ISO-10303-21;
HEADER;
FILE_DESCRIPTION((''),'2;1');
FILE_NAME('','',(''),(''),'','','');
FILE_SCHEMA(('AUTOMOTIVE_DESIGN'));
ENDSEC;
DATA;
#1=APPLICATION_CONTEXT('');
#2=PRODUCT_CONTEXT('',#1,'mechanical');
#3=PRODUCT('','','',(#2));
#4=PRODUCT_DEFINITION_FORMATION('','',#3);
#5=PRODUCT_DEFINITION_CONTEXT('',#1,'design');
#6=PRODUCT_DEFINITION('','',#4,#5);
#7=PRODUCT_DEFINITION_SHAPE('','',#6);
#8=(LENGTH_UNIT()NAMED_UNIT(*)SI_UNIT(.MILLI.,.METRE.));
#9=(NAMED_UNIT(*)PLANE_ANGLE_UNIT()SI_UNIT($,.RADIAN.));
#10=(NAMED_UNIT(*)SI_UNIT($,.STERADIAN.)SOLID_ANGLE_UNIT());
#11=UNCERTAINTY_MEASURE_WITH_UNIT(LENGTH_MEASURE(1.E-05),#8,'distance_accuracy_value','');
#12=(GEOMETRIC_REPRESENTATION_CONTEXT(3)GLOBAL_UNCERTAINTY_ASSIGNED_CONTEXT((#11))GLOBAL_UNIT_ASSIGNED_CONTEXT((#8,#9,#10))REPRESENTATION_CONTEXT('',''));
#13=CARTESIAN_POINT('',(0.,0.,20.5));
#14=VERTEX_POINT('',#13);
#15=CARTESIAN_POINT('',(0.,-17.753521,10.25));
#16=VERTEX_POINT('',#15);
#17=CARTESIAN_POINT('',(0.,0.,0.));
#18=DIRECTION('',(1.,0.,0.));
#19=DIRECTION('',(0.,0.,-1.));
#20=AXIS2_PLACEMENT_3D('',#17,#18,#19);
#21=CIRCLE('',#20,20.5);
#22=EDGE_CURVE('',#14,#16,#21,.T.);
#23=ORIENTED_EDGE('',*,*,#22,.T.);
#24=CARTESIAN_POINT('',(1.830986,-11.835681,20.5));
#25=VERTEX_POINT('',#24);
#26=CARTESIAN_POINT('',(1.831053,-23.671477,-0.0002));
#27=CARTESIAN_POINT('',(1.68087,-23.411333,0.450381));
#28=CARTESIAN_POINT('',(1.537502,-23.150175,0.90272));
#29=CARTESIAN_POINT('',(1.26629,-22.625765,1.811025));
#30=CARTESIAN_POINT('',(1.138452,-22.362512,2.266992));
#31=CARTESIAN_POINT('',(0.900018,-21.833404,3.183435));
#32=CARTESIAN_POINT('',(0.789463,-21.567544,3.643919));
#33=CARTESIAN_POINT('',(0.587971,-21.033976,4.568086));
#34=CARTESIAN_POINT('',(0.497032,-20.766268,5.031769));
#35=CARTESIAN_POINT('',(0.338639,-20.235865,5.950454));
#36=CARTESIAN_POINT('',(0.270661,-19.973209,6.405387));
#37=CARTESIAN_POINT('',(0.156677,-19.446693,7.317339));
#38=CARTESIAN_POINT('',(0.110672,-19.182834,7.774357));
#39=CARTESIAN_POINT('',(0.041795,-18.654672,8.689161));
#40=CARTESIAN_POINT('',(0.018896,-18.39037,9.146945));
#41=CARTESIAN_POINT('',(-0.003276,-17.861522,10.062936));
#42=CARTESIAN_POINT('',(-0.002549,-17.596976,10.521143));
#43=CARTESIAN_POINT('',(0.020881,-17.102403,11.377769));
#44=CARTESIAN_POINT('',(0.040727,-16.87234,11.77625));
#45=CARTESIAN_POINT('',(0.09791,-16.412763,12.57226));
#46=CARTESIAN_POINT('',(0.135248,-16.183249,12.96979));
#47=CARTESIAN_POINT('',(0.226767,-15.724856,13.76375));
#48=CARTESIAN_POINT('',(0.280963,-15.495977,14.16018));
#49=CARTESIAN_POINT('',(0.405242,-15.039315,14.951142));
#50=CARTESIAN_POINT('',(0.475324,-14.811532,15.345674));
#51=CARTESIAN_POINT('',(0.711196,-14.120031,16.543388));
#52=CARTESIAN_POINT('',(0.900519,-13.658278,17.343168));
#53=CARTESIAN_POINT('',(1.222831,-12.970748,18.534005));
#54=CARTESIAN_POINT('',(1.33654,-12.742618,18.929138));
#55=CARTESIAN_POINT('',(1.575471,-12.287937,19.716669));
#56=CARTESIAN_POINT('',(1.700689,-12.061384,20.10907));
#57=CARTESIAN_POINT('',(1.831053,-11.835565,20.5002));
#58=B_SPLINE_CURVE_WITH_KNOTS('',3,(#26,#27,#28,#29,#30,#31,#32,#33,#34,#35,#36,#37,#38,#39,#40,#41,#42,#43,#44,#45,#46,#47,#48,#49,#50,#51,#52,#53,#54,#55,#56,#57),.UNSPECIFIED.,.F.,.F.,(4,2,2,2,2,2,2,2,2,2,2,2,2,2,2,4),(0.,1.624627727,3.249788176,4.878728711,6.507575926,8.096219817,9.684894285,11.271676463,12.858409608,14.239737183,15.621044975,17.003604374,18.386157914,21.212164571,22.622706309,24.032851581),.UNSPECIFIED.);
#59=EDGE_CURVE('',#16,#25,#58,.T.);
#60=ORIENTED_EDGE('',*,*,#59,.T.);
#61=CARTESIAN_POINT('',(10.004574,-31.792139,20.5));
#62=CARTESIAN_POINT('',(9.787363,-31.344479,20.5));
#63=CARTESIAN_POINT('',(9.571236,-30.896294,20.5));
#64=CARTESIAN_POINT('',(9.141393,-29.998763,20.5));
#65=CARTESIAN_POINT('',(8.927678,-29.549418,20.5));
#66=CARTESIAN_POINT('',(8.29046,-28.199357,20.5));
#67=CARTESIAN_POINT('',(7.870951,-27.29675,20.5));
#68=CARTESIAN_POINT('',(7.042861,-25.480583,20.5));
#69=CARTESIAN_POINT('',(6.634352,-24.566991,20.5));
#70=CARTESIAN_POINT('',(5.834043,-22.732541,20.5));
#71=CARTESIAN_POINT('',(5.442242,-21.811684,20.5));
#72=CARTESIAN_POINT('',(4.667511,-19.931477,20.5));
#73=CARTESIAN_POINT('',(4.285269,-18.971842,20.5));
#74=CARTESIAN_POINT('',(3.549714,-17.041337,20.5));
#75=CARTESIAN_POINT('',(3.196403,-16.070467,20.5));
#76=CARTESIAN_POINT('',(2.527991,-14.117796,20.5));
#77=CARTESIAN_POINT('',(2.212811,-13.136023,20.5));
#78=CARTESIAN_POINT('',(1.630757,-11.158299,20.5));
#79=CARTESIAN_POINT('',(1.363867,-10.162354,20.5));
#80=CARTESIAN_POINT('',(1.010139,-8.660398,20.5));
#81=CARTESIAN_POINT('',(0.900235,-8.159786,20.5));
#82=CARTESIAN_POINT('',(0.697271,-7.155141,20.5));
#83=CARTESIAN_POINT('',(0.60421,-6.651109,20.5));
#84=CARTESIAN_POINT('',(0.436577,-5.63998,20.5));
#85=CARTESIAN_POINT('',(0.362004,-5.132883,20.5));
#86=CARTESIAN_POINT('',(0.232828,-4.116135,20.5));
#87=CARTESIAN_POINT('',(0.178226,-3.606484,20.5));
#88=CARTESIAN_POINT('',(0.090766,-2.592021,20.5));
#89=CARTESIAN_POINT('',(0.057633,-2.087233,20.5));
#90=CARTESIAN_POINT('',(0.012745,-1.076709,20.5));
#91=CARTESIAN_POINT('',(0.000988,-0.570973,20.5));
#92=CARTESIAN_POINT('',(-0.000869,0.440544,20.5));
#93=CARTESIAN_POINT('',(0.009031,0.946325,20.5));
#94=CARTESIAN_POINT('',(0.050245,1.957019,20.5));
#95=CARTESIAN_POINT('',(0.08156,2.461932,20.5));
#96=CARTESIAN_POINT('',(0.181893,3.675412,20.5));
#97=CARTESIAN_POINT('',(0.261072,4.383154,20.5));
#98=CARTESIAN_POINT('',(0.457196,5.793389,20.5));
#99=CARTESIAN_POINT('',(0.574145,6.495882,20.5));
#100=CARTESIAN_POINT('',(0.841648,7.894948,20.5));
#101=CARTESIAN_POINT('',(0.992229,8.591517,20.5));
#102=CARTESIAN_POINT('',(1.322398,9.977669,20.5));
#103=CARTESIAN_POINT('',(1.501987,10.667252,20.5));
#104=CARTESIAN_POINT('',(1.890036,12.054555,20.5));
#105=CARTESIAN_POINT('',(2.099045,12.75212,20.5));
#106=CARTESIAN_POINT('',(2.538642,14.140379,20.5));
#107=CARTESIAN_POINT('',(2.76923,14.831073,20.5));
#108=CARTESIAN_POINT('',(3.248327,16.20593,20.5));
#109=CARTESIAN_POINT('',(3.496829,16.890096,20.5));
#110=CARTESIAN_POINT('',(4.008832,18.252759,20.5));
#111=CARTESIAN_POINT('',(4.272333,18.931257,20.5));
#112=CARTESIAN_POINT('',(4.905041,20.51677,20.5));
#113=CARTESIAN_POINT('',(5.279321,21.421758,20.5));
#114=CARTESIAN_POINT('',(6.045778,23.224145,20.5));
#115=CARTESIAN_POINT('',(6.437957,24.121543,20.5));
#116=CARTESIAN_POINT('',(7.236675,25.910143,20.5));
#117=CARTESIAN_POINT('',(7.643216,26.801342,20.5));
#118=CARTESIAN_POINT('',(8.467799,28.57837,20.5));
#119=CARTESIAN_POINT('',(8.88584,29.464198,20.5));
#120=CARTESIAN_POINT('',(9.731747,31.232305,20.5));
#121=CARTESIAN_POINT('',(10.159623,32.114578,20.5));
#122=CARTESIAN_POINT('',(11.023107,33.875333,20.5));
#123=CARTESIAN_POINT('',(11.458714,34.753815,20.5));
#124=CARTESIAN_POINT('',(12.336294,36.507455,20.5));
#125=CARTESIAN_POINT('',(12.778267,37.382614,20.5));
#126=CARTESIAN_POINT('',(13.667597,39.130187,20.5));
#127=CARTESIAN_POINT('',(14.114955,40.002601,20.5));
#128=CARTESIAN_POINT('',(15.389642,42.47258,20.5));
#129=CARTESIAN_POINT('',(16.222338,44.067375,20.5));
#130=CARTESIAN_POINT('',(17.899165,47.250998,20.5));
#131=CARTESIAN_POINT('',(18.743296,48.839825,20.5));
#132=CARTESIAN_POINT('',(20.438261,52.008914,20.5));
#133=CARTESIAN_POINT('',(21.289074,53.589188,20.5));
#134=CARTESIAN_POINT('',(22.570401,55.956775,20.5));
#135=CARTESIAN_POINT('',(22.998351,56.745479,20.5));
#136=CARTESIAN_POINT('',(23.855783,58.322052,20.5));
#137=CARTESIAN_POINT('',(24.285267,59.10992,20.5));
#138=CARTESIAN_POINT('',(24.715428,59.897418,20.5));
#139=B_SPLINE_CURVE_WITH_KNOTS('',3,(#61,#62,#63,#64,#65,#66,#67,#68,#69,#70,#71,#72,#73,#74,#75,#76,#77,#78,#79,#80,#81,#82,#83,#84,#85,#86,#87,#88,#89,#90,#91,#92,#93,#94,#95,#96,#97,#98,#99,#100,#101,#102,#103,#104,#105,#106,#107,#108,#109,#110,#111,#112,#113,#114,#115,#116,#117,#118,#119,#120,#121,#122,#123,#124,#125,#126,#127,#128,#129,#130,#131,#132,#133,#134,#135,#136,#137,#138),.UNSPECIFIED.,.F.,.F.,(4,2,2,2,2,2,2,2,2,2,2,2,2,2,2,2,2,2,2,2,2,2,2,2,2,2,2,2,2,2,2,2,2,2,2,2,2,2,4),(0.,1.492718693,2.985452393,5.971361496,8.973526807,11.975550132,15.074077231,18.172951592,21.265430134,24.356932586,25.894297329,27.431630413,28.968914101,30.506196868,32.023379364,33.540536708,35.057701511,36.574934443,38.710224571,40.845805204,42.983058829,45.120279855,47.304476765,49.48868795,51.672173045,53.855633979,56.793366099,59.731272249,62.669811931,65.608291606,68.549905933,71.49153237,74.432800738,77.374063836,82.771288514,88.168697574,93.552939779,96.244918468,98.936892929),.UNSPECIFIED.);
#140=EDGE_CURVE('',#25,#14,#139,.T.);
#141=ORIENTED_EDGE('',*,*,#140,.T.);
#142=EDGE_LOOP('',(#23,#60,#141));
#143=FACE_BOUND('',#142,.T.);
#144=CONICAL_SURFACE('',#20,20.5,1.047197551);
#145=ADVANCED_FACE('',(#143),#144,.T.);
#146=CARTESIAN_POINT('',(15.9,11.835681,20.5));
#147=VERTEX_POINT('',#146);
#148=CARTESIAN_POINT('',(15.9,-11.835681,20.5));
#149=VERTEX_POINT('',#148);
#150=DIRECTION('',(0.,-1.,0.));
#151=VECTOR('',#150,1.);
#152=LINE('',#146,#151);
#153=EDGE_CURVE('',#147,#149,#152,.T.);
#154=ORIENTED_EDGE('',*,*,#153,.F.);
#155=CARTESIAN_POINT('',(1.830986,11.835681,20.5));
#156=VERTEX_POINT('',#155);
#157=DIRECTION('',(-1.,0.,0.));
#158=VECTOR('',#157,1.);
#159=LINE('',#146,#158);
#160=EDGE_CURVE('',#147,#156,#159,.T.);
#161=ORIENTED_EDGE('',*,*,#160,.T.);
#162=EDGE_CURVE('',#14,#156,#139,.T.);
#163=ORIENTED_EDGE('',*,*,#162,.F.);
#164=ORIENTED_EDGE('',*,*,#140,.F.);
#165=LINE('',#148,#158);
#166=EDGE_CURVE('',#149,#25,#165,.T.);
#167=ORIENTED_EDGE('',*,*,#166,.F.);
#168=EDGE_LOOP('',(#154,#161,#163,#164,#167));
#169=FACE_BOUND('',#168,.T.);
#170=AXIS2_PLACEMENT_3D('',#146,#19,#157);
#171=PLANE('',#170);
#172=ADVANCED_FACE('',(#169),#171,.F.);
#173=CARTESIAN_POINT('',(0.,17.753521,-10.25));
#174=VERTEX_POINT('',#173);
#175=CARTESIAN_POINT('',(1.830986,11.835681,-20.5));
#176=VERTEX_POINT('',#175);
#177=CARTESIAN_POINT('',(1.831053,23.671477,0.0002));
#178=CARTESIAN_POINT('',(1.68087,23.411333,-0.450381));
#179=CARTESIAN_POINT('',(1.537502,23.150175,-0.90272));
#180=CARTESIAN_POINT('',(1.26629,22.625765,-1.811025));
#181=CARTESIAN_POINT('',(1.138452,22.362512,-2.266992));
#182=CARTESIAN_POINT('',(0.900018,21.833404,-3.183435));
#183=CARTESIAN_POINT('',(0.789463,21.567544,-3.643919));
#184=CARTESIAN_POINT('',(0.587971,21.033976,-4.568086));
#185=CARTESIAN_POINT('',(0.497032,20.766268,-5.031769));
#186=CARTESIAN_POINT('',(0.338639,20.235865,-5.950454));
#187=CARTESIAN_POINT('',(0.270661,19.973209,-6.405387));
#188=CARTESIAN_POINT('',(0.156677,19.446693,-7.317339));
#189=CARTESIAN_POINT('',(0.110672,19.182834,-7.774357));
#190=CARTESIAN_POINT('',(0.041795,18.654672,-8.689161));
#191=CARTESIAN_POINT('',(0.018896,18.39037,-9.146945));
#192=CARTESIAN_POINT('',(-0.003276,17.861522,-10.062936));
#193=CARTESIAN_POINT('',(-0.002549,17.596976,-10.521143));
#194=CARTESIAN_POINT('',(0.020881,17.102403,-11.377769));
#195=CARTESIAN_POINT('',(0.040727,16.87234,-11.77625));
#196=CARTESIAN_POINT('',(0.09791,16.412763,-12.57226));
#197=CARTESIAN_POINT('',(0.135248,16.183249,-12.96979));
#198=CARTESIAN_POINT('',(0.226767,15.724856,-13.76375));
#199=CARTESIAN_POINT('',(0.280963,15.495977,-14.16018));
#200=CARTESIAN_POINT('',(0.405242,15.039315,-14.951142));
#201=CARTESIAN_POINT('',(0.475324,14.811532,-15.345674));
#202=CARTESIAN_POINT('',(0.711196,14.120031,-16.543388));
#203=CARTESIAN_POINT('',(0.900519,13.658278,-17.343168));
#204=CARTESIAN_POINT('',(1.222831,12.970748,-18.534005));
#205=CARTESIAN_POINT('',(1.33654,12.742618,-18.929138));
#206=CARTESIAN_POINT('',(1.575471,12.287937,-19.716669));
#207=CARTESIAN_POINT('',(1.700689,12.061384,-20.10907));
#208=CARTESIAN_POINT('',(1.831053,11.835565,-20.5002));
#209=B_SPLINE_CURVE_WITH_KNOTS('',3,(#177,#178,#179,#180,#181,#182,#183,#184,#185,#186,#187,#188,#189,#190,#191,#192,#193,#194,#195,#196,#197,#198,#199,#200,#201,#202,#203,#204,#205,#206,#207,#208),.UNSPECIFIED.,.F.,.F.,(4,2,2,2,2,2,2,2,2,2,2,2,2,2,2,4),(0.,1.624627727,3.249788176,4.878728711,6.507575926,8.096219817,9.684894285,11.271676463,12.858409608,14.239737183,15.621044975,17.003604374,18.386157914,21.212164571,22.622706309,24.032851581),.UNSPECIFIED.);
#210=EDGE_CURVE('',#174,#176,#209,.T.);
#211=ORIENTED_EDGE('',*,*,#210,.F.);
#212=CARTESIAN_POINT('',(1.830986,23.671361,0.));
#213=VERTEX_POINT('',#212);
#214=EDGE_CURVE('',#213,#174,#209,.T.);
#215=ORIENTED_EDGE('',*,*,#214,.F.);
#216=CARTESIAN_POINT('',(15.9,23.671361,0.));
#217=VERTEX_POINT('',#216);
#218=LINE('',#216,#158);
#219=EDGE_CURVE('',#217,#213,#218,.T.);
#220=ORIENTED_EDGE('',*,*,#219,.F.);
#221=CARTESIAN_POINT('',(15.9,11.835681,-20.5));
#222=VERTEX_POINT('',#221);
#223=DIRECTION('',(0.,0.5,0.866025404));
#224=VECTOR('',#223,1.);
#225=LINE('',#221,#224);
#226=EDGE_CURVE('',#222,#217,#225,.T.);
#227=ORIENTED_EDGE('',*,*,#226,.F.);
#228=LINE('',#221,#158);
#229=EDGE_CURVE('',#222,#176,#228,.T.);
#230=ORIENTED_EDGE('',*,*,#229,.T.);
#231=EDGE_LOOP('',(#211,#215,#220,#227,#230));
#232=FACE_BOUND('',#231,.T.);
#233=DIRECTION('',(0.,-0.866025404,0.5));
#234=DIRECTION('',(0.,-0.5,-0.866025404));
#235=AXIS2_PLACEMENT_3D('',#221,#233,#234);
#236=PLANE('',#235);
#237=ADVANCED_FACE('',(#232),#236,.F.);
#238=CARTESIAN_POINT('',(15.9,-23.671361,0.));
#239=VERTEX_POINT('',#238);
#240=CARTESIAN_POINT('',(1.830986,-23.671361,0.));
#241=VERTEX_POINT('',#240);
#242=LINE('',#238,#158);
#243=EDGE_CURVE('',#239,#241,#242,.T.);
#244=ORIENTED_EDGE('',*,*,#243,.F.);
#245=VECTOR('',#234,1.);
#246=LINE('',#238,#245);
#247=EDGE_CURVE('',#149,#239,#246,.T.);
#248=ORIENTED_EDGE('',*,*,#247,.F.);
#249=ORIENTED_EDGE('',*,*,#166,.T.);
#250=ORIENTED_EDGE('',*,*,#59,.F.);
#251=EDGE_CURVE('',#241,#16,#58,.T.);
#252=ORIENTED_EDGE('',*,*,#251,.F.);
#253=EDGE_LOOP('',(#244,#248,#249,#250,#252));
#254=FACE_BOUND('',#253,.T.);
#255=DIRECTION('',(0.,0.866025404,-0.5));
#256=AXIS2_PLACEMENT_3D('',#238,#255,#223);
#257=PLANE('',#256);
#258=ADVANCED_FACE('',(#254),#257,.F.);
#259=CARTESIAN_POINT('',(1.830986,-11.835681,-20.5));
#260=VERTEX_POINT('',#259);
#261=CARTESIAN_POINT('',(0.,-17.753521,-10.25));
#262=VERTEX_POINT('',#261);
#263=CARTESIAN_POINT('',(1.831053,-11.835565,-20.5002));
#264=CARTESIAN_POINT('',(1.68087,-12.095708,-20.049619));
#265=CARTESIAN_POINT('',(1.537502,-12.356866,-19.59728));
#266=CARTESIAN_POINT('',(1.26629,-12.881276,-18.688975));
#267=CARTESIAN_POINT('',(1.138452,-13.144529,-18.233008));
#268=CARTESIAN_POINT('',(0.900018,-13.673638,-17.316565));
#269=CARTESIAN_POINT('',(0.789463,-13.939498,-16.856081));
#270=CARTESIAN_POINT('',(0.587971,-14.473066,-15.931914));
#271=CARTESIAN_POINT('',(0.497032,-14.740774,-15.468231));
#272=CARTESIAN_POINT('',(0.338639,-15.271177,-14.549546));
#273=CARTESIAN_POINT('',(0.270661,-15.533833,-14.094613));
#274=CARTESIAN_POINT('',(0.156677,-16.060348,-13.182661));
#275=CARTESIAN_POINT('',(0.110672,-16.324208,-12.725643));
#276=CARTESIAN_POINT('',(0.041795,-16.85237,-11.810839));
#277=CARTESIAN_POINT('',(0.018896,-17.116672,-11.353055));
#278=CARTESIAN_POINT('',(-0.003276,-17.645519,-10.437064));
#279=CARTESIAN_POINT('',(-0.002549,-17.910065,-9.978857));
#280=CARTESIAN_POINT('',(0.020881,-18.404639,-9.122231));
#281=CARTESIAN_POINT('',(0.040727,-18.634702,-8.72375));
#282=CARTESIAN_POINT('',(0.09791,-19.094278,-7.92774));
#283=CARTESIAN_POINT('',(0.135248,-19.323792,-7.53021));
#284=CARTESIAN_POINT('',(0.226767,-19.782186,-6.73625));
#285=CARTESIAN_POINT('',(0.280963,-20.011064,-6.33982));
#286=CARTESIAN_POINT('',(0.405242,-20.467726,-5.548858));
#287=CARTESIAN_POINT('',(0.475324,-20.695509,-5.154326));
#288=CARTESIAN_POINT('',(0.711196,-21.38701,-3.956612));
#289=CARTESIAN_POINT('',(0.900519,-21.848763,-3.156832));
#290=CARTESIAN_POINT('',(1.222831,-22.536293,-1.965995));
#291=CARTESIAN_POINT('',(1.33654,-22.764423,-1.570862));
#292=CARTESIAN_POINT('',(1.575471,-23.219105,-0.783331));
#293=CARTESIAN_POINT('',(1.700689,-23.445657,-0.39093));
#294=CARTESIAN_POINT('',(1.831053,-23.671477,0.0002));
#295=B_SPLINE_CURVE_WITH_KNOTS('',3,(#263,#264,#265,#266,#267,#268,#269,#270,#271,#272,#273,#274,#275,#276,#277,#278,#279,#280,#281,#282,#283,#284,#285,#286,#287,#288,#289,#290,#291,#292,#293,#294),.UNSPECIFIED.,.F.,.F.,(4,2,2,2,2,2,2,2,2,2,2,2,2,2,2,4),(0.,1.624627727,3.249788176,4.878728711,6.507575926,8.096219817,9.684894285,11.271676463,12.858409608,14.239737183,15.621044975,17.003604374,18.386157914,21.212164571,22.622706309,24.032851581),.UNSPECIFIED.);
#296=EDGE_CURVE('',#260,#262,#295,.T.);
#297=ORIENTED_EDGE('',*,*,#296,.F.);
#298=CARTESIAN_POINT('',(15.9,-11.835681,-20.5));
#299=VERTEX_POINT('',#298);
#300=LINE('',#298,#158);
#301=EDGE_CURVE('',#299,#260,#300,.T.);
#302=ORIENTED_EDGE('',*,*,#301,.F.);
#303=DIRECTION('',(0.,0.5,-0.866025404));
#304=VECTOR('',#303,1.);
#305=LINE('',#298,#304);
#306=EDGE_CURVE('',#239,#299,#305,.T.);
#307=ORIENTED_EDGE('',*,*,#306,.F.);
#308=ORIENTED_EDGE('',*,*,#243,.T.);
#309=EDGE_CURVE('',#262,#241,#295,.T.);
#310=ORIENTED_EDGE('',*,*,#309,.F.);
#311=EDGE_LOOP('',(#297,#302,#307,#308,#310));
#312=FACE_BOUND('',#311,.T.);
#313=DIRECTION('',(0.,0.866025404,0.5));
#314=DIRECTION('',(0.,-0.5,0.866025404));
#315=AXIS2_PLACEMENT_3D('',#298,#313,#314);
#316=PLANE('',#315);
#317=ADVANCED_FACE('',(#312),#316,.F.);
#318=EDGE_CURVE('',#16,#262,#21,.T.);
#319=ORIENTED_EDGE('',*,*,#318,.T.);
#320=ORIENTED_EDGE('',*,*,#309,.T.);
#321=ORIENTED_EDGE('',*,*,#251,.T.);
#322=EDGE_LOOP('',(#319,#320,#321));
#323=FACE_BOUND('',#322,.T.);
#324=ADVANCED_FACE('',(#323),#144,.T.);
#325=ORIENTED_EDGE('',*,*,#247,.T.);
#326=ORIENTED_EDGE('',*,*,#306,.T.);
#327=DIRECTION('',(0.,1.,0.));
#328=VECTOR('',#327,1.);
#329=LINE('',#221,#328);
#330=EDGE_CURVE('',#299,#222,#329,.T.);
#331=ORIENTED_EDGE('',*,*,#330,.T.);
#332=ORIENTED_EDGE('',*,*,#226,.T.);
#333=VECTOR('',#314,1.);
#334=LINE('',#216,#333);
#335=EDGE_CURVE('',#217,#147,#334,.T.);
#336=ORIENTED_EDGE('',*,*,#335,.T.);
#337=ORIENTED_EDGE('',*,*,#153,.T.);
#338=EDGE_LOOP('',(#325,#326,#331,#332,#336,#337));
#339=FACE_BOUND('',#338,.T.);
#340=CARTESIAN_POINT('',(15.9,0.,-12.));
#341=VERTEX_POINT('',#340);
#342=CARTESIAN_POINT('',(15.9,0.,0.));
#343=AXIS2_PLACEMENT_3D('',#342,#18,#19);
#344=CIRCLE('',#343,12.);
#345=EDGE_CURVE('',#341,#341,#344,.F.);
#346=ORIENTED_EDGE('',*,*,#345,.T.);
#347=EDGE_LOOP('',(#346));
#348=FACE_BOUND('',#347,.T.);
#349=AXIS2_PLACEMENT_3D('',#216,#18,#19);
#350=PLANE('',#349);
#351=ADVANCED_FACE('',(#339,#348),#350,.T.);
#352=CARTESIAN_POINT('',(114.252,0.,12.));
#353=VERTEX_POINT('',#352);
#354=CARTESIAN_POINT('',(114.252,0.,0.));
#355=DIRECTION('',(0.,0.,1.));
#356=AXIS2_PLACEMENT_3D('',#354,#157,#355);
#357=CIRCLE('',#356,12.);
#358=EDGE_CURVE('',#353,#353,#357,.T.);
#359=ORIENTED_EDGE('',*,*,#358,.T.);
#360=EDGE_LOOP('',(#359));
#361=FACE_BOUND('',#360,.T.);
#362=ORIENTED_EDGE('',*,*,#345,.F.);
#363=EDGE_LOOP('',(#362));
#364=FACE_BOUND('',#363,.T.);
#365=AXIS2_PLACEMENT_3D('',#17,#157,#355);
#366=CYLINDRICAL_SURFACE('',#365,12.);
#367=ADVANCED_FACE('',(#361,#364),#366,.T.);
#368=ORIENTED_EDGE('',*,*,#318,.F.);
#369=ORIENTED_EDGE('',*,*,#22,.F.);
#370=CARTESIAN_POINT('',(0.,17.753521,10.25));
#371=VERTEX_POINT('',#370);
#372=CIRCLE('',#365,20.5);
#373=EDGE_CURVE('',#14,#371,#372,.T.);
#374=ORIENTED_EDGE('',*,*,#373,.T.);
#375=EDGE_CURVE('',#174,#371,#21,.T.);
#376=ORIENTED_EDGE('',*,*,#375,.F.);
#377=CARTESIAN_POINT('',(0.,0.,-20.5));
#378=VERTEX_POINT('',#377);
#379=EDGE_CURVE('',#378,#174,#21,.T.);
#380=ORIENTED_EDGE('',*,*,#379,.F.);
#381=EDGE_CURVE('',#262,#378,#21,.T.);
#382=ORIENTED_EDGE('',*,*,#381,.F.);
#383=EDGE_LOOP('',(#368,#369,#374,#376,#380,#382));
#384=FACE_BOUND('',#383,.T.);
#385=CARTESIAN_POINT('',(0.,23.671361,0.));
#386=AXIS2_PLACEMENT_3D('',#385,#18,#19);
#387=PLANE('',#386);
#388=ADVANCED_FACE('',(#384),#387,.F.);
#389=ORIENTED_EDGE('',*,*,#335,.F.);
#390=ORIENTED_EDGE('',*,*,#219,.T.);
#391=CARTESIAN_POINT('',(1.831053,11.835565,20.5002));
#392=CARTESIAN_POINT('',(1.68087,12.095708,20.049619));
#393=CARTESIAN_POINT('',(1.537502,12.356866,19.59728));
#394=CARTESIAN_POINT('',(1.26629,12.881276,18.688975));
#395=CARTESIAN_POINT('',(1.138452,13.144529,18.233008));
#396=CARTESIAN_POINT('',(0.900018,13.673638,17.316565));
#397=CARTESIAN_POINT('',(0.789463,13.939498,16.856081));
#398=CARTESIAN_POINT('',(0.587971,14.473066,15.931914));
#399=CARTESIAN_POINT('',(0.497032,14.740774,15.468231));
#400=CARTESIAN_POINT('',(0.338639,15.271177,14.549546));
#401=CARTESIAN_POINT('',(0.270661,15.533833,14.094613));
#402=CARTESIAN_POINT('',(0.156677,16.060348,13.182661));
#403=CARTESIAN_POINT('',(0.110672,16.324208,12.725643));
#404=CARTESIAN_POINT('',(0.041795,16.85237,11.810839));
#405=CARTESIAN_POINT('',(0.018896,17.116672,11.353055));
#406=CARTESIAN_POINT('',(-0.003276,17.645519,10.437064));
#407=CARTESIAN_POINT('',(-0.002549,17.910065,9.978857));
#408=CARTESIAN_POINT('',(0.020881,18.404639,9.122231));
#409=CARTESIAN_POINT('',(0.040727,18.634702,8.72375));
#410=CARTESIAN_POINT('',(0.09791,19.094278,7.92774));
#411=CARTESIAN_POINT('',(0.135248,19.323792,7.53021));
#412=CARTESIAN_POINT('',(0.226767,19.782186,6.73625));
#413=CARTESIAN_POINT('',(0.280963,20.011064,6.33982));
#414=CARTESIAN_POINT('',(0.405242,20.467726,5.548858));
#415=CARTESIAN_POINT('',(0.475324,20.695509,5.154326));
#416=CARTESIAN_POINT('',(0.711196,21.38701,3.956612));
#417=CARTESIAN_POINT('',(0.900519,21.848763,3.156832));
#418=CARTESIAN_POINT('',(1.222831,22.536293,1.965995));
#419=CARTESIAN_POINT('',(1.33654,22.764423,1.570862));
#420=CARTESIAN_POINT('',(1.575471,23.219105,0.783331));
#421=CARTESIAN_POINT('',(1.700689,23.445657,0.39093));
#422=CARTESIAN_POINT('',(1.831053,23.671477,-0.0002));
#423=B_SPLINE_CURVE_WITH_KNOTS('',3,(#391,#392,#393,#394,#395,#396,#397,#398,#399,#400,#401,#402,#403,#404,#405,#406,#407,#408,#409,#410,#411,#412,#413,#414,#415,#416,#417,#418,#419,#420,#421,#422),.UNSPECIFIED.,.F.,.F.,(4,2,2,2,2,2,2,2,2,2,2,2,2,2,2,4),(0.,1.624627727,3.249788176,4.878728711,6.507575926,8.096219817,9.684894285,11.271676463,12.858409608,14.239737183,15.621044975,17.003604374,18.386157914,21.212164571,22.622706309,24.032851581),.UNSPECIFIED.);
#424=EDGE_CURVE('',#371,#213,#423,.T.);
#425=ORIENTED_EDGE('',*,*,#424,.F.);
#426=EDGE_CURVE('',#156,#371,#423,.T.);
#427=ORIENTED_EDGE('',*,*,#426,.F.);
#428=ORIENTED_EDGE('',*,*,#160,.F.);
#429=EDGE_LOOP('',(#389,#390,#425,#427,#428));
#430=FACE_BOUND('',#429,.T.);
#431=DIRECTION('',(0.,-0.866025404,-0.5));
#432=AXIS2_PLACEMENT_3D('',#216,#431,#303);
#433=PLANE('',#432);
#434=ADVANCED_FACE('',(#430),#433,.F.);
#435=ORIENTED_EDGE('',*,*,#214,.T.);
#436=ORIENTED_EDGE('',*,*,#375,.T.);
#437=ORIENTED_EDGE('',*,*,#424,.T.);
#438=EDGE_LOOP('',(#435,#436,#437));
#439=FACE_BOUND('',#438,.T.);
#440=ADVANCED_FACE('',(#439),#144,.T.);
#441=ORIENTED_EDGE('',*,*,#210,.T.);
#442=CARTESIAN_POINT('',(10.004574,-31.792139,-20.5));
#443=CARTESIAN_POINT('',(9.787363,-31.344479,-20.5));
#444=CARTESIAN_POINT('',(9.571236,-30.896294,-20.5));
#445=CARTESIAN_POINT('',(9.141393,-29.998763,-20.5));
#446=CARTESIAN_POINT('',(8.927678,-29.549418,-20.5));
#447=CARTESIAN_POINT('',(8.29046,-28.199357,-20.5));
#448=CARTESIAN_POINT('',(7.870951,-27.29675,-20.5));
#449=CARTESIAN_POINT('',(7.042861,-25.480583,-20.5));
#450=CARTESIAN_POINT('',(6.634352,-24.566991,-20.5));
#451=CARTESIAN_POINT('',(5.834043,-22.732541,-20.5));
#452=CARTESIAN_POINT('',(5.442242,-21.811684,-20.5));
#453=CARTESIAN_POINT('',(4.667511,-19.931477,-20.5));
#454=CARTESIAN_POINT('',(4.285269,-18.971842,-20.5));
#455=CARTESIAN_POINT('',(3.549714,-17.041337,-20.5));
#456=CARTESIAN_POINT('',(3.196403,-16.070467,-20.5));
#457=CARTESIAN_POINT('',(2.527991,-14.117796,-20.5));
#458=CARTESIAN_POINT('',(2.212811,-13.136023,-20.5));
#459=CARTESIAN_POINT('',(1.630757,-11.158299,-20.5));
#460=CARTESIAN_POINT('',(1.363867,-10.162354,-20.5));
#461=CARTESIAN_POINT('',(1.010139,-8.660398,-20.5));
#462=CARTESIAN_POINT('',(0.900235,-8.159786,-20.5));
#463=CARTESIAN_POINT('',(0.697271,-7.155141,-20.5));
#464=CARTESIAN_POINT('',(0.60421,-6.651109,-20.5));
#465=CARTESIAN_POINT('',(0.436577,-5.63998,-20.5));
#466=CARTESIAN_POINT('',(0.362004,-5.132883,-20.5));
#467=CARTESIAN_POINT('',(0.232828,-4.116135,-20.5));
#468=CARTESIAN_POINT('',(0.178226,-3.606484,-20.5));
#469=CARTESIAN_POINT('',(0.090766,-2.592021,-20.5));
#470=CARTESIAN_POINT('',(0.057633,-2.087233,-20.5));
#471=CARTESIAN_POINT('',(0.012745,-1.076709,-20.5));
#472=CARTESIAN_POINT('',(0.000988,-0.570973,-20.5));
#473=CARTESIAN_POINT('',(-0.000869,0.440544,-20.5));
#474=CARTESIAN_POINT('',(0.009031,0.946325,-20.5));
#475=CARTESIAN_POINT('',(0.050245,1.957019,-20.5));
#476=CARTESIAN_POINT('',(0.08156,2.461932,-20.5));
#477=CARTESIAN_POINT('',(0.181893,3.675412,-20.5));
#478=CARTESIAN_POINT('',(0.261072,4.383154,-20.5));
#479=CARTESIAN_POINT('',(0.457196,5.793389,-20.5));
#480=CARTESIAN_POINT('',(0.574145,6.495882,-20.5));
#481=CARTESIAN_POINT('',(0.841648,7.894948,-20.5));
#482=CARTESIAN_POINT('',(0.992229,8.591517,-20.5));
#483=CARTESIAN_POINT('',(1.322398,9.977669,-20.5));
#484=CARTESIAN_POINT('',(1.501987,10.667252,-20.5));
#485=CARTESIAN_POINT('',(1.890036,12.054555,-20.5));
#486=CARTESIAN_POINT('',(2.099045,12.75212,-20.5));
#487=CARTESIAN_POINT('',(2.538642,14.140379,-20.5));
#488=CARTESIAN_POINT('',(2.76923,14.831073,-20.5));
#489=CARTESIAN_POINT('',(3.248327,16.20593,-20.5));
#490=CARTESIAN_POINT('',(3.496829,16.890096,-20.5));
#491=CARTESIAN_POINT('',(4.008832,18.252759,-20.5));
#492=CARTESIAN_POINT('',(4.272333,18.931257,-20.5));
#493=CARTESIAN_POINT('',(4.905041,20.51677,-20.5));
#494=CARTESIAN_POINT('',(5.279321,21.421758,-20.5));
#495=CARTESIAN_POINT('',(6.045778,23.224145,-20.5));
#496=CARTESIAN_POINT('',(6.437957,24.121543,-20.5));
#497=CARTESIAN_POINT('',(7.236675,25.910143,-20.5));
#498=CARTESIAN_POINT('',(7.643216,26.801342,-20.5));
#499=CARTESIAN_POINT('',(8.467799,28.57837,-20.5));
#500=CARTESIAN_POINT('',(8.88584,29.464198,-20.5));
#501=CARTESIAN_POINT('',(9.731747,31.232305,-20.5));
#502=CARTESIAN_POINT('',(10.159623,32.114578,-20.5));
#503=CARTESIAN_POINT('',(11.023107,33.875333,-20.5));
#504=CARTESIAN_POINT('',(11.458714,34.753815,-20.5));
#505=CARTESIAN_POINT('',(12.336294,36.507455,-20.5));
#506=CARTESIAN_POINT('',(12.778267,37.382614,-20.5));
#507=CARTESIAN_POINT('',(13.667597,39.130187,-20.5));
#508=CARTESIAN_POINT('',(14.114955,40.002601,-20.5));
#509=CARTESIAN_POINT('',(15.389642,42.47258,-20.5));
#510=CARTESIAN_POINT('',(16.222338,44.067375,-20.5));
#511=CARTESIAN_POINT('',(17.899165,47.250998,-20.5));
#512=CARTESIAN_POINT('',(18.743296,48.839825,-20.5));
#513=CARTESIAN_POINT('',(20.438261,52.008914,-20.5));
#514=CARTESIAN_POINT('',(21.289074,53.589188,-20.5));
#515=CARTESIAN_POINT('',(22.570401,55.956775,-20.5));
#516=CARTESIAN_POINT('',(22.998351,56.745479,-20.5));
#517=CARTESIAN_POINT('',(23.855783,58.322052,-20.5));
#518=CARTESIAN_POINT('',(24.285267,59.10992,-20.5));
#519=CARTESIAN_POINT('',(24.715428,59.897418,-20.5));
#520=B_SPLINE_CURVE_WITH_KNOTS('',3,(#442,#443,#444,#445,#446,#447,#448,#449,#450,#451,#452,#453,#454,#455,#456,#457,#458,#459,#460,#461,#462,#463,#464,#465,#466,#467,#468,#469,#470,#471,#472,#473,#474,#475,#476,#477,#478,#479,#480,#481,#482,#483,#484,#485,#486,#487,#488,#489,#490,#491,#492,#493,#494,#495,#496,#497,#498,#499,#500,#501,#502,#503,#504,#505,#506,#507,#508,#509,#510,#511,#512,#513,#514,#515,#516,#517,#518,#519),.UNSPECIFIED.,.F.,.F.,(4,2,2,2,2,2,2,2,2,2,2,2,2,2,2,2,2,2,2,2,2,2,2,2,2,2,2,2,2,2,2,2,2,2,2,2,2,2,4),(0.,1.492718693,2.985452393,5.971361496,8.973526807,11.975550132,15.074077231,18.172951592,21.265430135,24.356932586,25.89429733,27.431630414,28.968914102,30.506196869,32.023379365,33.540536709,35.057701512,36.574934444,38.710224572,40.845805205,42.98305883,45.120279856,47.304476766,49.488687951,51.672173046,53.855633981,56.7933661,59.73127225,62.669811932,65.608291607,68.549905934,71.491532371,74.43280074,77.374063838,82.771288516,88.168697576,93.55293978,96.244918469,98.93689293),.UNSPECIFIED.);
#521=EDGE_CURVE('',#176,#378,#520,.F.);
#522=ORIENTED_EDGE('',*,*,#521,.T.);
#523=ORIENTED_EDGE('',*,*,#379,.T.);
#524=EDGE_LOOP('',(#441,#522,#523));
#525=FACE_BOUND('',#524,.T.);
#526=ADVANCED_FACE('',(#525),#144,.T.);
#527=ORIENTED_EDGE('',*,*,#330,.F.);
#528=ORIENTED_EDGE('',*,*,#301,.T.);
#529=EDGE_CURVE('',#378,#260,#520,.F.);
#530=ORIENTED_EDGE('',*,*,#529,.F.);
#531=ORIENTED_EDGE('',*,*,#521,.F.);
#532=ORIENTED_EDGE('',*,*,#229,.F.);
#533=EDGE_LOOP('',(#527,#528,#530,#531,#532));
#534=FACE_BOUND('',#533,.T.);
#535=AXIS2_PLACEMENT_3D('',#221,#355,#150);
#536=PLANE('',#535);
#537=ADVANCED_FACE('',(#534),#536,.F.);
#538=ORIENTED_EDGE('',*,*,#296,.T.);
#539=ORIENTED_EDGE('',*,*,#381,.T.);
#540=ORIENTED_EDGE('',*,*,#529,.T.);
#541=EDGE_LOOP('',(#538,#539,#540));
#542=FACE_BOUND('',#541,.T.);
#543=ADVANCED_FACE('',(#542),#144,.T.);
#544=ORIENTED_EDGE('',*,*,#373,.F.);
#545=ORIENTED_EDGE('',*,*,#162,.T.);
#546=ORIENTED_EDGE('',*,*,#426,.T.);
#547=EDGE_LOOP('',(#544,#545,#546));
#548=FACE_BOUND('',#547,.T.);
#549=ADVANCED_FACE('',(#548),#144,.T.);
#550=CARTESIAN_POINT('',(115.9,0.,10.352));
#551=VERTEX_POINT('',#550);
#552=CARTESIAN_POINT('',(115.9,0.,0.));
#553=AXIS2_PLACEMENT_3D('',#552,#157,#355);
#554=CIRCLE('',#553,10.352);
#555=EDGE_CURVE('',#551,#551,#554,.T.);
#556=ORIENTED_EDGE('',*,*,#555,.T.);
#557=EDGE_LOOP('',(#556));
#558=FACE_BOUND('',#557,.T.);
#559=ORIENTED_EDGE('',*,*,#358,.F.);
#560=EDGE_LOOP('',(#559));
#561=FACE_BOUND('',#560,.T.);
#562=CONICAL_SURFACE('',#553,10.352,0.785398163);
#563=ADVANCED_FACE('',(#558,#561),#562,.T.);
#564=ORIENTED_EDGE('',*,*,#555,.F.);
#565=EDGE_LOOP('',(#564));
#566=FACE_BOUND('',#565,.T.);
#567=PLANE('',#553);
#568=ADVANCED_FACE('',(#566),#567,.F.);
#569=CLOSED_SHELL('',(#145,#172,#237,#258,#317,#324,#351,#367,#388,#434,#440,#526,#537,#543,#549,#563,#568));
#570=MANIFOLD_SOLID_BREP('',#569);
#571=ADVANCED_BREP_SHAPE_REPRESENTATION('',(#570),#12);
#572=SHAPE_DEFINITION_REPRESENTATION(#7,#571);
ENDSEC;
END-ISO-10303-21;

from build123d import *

# Parameters (mm, degrees)
BASEHEAD_DEPTH = 15.9


with BuildPart() as part:
    # Sketch1 → BaseHead (new body)
    with BuildSketch(Plane(origin=(0, 0, 0), x_dir=(0, 0, -1), z_dir=(1, 0, 0))):
        Polygon((20.5, 11.835680518), (20.5, -11.835680518), (0, -23.671361037), (-20.5, -11.835680518), (-20.5, 11.835680518), (0, 23.671361037), align=None)
    extrude(amount=BASEHEAD_DEPTH)

    # BodySke → BaseBody (revolve)
    with BuildSketch(Plane.XY, mode=Mode.PRIVATE) as basebody_sk:
        Polygon((0, 0), (115.9, 0), (115.9, 10.352), (114.252, 12), (0, 12), align=None)
    revolve(basebody_sk.sketch.rotate(Axis((0, 0, 0), (1, 0, 0)), 90), axis=Axis((0, 0, 0), (1, 0, 0)))

    # Sketch3 → HeadChamfer (revolve, cut)
    with BuildSketch(Plane.XY):
        Polygon((0, 20.5), (4.717737494, 28.671361037), (4.717737494, 33.671361037), (-10, 33.671361037), (-10, 20.5), align=None)
    revolve(axis=Axis((0, 0, 0), (1, 0, 0)), mode=Mode.SUBTRACT)


solid = part.part
